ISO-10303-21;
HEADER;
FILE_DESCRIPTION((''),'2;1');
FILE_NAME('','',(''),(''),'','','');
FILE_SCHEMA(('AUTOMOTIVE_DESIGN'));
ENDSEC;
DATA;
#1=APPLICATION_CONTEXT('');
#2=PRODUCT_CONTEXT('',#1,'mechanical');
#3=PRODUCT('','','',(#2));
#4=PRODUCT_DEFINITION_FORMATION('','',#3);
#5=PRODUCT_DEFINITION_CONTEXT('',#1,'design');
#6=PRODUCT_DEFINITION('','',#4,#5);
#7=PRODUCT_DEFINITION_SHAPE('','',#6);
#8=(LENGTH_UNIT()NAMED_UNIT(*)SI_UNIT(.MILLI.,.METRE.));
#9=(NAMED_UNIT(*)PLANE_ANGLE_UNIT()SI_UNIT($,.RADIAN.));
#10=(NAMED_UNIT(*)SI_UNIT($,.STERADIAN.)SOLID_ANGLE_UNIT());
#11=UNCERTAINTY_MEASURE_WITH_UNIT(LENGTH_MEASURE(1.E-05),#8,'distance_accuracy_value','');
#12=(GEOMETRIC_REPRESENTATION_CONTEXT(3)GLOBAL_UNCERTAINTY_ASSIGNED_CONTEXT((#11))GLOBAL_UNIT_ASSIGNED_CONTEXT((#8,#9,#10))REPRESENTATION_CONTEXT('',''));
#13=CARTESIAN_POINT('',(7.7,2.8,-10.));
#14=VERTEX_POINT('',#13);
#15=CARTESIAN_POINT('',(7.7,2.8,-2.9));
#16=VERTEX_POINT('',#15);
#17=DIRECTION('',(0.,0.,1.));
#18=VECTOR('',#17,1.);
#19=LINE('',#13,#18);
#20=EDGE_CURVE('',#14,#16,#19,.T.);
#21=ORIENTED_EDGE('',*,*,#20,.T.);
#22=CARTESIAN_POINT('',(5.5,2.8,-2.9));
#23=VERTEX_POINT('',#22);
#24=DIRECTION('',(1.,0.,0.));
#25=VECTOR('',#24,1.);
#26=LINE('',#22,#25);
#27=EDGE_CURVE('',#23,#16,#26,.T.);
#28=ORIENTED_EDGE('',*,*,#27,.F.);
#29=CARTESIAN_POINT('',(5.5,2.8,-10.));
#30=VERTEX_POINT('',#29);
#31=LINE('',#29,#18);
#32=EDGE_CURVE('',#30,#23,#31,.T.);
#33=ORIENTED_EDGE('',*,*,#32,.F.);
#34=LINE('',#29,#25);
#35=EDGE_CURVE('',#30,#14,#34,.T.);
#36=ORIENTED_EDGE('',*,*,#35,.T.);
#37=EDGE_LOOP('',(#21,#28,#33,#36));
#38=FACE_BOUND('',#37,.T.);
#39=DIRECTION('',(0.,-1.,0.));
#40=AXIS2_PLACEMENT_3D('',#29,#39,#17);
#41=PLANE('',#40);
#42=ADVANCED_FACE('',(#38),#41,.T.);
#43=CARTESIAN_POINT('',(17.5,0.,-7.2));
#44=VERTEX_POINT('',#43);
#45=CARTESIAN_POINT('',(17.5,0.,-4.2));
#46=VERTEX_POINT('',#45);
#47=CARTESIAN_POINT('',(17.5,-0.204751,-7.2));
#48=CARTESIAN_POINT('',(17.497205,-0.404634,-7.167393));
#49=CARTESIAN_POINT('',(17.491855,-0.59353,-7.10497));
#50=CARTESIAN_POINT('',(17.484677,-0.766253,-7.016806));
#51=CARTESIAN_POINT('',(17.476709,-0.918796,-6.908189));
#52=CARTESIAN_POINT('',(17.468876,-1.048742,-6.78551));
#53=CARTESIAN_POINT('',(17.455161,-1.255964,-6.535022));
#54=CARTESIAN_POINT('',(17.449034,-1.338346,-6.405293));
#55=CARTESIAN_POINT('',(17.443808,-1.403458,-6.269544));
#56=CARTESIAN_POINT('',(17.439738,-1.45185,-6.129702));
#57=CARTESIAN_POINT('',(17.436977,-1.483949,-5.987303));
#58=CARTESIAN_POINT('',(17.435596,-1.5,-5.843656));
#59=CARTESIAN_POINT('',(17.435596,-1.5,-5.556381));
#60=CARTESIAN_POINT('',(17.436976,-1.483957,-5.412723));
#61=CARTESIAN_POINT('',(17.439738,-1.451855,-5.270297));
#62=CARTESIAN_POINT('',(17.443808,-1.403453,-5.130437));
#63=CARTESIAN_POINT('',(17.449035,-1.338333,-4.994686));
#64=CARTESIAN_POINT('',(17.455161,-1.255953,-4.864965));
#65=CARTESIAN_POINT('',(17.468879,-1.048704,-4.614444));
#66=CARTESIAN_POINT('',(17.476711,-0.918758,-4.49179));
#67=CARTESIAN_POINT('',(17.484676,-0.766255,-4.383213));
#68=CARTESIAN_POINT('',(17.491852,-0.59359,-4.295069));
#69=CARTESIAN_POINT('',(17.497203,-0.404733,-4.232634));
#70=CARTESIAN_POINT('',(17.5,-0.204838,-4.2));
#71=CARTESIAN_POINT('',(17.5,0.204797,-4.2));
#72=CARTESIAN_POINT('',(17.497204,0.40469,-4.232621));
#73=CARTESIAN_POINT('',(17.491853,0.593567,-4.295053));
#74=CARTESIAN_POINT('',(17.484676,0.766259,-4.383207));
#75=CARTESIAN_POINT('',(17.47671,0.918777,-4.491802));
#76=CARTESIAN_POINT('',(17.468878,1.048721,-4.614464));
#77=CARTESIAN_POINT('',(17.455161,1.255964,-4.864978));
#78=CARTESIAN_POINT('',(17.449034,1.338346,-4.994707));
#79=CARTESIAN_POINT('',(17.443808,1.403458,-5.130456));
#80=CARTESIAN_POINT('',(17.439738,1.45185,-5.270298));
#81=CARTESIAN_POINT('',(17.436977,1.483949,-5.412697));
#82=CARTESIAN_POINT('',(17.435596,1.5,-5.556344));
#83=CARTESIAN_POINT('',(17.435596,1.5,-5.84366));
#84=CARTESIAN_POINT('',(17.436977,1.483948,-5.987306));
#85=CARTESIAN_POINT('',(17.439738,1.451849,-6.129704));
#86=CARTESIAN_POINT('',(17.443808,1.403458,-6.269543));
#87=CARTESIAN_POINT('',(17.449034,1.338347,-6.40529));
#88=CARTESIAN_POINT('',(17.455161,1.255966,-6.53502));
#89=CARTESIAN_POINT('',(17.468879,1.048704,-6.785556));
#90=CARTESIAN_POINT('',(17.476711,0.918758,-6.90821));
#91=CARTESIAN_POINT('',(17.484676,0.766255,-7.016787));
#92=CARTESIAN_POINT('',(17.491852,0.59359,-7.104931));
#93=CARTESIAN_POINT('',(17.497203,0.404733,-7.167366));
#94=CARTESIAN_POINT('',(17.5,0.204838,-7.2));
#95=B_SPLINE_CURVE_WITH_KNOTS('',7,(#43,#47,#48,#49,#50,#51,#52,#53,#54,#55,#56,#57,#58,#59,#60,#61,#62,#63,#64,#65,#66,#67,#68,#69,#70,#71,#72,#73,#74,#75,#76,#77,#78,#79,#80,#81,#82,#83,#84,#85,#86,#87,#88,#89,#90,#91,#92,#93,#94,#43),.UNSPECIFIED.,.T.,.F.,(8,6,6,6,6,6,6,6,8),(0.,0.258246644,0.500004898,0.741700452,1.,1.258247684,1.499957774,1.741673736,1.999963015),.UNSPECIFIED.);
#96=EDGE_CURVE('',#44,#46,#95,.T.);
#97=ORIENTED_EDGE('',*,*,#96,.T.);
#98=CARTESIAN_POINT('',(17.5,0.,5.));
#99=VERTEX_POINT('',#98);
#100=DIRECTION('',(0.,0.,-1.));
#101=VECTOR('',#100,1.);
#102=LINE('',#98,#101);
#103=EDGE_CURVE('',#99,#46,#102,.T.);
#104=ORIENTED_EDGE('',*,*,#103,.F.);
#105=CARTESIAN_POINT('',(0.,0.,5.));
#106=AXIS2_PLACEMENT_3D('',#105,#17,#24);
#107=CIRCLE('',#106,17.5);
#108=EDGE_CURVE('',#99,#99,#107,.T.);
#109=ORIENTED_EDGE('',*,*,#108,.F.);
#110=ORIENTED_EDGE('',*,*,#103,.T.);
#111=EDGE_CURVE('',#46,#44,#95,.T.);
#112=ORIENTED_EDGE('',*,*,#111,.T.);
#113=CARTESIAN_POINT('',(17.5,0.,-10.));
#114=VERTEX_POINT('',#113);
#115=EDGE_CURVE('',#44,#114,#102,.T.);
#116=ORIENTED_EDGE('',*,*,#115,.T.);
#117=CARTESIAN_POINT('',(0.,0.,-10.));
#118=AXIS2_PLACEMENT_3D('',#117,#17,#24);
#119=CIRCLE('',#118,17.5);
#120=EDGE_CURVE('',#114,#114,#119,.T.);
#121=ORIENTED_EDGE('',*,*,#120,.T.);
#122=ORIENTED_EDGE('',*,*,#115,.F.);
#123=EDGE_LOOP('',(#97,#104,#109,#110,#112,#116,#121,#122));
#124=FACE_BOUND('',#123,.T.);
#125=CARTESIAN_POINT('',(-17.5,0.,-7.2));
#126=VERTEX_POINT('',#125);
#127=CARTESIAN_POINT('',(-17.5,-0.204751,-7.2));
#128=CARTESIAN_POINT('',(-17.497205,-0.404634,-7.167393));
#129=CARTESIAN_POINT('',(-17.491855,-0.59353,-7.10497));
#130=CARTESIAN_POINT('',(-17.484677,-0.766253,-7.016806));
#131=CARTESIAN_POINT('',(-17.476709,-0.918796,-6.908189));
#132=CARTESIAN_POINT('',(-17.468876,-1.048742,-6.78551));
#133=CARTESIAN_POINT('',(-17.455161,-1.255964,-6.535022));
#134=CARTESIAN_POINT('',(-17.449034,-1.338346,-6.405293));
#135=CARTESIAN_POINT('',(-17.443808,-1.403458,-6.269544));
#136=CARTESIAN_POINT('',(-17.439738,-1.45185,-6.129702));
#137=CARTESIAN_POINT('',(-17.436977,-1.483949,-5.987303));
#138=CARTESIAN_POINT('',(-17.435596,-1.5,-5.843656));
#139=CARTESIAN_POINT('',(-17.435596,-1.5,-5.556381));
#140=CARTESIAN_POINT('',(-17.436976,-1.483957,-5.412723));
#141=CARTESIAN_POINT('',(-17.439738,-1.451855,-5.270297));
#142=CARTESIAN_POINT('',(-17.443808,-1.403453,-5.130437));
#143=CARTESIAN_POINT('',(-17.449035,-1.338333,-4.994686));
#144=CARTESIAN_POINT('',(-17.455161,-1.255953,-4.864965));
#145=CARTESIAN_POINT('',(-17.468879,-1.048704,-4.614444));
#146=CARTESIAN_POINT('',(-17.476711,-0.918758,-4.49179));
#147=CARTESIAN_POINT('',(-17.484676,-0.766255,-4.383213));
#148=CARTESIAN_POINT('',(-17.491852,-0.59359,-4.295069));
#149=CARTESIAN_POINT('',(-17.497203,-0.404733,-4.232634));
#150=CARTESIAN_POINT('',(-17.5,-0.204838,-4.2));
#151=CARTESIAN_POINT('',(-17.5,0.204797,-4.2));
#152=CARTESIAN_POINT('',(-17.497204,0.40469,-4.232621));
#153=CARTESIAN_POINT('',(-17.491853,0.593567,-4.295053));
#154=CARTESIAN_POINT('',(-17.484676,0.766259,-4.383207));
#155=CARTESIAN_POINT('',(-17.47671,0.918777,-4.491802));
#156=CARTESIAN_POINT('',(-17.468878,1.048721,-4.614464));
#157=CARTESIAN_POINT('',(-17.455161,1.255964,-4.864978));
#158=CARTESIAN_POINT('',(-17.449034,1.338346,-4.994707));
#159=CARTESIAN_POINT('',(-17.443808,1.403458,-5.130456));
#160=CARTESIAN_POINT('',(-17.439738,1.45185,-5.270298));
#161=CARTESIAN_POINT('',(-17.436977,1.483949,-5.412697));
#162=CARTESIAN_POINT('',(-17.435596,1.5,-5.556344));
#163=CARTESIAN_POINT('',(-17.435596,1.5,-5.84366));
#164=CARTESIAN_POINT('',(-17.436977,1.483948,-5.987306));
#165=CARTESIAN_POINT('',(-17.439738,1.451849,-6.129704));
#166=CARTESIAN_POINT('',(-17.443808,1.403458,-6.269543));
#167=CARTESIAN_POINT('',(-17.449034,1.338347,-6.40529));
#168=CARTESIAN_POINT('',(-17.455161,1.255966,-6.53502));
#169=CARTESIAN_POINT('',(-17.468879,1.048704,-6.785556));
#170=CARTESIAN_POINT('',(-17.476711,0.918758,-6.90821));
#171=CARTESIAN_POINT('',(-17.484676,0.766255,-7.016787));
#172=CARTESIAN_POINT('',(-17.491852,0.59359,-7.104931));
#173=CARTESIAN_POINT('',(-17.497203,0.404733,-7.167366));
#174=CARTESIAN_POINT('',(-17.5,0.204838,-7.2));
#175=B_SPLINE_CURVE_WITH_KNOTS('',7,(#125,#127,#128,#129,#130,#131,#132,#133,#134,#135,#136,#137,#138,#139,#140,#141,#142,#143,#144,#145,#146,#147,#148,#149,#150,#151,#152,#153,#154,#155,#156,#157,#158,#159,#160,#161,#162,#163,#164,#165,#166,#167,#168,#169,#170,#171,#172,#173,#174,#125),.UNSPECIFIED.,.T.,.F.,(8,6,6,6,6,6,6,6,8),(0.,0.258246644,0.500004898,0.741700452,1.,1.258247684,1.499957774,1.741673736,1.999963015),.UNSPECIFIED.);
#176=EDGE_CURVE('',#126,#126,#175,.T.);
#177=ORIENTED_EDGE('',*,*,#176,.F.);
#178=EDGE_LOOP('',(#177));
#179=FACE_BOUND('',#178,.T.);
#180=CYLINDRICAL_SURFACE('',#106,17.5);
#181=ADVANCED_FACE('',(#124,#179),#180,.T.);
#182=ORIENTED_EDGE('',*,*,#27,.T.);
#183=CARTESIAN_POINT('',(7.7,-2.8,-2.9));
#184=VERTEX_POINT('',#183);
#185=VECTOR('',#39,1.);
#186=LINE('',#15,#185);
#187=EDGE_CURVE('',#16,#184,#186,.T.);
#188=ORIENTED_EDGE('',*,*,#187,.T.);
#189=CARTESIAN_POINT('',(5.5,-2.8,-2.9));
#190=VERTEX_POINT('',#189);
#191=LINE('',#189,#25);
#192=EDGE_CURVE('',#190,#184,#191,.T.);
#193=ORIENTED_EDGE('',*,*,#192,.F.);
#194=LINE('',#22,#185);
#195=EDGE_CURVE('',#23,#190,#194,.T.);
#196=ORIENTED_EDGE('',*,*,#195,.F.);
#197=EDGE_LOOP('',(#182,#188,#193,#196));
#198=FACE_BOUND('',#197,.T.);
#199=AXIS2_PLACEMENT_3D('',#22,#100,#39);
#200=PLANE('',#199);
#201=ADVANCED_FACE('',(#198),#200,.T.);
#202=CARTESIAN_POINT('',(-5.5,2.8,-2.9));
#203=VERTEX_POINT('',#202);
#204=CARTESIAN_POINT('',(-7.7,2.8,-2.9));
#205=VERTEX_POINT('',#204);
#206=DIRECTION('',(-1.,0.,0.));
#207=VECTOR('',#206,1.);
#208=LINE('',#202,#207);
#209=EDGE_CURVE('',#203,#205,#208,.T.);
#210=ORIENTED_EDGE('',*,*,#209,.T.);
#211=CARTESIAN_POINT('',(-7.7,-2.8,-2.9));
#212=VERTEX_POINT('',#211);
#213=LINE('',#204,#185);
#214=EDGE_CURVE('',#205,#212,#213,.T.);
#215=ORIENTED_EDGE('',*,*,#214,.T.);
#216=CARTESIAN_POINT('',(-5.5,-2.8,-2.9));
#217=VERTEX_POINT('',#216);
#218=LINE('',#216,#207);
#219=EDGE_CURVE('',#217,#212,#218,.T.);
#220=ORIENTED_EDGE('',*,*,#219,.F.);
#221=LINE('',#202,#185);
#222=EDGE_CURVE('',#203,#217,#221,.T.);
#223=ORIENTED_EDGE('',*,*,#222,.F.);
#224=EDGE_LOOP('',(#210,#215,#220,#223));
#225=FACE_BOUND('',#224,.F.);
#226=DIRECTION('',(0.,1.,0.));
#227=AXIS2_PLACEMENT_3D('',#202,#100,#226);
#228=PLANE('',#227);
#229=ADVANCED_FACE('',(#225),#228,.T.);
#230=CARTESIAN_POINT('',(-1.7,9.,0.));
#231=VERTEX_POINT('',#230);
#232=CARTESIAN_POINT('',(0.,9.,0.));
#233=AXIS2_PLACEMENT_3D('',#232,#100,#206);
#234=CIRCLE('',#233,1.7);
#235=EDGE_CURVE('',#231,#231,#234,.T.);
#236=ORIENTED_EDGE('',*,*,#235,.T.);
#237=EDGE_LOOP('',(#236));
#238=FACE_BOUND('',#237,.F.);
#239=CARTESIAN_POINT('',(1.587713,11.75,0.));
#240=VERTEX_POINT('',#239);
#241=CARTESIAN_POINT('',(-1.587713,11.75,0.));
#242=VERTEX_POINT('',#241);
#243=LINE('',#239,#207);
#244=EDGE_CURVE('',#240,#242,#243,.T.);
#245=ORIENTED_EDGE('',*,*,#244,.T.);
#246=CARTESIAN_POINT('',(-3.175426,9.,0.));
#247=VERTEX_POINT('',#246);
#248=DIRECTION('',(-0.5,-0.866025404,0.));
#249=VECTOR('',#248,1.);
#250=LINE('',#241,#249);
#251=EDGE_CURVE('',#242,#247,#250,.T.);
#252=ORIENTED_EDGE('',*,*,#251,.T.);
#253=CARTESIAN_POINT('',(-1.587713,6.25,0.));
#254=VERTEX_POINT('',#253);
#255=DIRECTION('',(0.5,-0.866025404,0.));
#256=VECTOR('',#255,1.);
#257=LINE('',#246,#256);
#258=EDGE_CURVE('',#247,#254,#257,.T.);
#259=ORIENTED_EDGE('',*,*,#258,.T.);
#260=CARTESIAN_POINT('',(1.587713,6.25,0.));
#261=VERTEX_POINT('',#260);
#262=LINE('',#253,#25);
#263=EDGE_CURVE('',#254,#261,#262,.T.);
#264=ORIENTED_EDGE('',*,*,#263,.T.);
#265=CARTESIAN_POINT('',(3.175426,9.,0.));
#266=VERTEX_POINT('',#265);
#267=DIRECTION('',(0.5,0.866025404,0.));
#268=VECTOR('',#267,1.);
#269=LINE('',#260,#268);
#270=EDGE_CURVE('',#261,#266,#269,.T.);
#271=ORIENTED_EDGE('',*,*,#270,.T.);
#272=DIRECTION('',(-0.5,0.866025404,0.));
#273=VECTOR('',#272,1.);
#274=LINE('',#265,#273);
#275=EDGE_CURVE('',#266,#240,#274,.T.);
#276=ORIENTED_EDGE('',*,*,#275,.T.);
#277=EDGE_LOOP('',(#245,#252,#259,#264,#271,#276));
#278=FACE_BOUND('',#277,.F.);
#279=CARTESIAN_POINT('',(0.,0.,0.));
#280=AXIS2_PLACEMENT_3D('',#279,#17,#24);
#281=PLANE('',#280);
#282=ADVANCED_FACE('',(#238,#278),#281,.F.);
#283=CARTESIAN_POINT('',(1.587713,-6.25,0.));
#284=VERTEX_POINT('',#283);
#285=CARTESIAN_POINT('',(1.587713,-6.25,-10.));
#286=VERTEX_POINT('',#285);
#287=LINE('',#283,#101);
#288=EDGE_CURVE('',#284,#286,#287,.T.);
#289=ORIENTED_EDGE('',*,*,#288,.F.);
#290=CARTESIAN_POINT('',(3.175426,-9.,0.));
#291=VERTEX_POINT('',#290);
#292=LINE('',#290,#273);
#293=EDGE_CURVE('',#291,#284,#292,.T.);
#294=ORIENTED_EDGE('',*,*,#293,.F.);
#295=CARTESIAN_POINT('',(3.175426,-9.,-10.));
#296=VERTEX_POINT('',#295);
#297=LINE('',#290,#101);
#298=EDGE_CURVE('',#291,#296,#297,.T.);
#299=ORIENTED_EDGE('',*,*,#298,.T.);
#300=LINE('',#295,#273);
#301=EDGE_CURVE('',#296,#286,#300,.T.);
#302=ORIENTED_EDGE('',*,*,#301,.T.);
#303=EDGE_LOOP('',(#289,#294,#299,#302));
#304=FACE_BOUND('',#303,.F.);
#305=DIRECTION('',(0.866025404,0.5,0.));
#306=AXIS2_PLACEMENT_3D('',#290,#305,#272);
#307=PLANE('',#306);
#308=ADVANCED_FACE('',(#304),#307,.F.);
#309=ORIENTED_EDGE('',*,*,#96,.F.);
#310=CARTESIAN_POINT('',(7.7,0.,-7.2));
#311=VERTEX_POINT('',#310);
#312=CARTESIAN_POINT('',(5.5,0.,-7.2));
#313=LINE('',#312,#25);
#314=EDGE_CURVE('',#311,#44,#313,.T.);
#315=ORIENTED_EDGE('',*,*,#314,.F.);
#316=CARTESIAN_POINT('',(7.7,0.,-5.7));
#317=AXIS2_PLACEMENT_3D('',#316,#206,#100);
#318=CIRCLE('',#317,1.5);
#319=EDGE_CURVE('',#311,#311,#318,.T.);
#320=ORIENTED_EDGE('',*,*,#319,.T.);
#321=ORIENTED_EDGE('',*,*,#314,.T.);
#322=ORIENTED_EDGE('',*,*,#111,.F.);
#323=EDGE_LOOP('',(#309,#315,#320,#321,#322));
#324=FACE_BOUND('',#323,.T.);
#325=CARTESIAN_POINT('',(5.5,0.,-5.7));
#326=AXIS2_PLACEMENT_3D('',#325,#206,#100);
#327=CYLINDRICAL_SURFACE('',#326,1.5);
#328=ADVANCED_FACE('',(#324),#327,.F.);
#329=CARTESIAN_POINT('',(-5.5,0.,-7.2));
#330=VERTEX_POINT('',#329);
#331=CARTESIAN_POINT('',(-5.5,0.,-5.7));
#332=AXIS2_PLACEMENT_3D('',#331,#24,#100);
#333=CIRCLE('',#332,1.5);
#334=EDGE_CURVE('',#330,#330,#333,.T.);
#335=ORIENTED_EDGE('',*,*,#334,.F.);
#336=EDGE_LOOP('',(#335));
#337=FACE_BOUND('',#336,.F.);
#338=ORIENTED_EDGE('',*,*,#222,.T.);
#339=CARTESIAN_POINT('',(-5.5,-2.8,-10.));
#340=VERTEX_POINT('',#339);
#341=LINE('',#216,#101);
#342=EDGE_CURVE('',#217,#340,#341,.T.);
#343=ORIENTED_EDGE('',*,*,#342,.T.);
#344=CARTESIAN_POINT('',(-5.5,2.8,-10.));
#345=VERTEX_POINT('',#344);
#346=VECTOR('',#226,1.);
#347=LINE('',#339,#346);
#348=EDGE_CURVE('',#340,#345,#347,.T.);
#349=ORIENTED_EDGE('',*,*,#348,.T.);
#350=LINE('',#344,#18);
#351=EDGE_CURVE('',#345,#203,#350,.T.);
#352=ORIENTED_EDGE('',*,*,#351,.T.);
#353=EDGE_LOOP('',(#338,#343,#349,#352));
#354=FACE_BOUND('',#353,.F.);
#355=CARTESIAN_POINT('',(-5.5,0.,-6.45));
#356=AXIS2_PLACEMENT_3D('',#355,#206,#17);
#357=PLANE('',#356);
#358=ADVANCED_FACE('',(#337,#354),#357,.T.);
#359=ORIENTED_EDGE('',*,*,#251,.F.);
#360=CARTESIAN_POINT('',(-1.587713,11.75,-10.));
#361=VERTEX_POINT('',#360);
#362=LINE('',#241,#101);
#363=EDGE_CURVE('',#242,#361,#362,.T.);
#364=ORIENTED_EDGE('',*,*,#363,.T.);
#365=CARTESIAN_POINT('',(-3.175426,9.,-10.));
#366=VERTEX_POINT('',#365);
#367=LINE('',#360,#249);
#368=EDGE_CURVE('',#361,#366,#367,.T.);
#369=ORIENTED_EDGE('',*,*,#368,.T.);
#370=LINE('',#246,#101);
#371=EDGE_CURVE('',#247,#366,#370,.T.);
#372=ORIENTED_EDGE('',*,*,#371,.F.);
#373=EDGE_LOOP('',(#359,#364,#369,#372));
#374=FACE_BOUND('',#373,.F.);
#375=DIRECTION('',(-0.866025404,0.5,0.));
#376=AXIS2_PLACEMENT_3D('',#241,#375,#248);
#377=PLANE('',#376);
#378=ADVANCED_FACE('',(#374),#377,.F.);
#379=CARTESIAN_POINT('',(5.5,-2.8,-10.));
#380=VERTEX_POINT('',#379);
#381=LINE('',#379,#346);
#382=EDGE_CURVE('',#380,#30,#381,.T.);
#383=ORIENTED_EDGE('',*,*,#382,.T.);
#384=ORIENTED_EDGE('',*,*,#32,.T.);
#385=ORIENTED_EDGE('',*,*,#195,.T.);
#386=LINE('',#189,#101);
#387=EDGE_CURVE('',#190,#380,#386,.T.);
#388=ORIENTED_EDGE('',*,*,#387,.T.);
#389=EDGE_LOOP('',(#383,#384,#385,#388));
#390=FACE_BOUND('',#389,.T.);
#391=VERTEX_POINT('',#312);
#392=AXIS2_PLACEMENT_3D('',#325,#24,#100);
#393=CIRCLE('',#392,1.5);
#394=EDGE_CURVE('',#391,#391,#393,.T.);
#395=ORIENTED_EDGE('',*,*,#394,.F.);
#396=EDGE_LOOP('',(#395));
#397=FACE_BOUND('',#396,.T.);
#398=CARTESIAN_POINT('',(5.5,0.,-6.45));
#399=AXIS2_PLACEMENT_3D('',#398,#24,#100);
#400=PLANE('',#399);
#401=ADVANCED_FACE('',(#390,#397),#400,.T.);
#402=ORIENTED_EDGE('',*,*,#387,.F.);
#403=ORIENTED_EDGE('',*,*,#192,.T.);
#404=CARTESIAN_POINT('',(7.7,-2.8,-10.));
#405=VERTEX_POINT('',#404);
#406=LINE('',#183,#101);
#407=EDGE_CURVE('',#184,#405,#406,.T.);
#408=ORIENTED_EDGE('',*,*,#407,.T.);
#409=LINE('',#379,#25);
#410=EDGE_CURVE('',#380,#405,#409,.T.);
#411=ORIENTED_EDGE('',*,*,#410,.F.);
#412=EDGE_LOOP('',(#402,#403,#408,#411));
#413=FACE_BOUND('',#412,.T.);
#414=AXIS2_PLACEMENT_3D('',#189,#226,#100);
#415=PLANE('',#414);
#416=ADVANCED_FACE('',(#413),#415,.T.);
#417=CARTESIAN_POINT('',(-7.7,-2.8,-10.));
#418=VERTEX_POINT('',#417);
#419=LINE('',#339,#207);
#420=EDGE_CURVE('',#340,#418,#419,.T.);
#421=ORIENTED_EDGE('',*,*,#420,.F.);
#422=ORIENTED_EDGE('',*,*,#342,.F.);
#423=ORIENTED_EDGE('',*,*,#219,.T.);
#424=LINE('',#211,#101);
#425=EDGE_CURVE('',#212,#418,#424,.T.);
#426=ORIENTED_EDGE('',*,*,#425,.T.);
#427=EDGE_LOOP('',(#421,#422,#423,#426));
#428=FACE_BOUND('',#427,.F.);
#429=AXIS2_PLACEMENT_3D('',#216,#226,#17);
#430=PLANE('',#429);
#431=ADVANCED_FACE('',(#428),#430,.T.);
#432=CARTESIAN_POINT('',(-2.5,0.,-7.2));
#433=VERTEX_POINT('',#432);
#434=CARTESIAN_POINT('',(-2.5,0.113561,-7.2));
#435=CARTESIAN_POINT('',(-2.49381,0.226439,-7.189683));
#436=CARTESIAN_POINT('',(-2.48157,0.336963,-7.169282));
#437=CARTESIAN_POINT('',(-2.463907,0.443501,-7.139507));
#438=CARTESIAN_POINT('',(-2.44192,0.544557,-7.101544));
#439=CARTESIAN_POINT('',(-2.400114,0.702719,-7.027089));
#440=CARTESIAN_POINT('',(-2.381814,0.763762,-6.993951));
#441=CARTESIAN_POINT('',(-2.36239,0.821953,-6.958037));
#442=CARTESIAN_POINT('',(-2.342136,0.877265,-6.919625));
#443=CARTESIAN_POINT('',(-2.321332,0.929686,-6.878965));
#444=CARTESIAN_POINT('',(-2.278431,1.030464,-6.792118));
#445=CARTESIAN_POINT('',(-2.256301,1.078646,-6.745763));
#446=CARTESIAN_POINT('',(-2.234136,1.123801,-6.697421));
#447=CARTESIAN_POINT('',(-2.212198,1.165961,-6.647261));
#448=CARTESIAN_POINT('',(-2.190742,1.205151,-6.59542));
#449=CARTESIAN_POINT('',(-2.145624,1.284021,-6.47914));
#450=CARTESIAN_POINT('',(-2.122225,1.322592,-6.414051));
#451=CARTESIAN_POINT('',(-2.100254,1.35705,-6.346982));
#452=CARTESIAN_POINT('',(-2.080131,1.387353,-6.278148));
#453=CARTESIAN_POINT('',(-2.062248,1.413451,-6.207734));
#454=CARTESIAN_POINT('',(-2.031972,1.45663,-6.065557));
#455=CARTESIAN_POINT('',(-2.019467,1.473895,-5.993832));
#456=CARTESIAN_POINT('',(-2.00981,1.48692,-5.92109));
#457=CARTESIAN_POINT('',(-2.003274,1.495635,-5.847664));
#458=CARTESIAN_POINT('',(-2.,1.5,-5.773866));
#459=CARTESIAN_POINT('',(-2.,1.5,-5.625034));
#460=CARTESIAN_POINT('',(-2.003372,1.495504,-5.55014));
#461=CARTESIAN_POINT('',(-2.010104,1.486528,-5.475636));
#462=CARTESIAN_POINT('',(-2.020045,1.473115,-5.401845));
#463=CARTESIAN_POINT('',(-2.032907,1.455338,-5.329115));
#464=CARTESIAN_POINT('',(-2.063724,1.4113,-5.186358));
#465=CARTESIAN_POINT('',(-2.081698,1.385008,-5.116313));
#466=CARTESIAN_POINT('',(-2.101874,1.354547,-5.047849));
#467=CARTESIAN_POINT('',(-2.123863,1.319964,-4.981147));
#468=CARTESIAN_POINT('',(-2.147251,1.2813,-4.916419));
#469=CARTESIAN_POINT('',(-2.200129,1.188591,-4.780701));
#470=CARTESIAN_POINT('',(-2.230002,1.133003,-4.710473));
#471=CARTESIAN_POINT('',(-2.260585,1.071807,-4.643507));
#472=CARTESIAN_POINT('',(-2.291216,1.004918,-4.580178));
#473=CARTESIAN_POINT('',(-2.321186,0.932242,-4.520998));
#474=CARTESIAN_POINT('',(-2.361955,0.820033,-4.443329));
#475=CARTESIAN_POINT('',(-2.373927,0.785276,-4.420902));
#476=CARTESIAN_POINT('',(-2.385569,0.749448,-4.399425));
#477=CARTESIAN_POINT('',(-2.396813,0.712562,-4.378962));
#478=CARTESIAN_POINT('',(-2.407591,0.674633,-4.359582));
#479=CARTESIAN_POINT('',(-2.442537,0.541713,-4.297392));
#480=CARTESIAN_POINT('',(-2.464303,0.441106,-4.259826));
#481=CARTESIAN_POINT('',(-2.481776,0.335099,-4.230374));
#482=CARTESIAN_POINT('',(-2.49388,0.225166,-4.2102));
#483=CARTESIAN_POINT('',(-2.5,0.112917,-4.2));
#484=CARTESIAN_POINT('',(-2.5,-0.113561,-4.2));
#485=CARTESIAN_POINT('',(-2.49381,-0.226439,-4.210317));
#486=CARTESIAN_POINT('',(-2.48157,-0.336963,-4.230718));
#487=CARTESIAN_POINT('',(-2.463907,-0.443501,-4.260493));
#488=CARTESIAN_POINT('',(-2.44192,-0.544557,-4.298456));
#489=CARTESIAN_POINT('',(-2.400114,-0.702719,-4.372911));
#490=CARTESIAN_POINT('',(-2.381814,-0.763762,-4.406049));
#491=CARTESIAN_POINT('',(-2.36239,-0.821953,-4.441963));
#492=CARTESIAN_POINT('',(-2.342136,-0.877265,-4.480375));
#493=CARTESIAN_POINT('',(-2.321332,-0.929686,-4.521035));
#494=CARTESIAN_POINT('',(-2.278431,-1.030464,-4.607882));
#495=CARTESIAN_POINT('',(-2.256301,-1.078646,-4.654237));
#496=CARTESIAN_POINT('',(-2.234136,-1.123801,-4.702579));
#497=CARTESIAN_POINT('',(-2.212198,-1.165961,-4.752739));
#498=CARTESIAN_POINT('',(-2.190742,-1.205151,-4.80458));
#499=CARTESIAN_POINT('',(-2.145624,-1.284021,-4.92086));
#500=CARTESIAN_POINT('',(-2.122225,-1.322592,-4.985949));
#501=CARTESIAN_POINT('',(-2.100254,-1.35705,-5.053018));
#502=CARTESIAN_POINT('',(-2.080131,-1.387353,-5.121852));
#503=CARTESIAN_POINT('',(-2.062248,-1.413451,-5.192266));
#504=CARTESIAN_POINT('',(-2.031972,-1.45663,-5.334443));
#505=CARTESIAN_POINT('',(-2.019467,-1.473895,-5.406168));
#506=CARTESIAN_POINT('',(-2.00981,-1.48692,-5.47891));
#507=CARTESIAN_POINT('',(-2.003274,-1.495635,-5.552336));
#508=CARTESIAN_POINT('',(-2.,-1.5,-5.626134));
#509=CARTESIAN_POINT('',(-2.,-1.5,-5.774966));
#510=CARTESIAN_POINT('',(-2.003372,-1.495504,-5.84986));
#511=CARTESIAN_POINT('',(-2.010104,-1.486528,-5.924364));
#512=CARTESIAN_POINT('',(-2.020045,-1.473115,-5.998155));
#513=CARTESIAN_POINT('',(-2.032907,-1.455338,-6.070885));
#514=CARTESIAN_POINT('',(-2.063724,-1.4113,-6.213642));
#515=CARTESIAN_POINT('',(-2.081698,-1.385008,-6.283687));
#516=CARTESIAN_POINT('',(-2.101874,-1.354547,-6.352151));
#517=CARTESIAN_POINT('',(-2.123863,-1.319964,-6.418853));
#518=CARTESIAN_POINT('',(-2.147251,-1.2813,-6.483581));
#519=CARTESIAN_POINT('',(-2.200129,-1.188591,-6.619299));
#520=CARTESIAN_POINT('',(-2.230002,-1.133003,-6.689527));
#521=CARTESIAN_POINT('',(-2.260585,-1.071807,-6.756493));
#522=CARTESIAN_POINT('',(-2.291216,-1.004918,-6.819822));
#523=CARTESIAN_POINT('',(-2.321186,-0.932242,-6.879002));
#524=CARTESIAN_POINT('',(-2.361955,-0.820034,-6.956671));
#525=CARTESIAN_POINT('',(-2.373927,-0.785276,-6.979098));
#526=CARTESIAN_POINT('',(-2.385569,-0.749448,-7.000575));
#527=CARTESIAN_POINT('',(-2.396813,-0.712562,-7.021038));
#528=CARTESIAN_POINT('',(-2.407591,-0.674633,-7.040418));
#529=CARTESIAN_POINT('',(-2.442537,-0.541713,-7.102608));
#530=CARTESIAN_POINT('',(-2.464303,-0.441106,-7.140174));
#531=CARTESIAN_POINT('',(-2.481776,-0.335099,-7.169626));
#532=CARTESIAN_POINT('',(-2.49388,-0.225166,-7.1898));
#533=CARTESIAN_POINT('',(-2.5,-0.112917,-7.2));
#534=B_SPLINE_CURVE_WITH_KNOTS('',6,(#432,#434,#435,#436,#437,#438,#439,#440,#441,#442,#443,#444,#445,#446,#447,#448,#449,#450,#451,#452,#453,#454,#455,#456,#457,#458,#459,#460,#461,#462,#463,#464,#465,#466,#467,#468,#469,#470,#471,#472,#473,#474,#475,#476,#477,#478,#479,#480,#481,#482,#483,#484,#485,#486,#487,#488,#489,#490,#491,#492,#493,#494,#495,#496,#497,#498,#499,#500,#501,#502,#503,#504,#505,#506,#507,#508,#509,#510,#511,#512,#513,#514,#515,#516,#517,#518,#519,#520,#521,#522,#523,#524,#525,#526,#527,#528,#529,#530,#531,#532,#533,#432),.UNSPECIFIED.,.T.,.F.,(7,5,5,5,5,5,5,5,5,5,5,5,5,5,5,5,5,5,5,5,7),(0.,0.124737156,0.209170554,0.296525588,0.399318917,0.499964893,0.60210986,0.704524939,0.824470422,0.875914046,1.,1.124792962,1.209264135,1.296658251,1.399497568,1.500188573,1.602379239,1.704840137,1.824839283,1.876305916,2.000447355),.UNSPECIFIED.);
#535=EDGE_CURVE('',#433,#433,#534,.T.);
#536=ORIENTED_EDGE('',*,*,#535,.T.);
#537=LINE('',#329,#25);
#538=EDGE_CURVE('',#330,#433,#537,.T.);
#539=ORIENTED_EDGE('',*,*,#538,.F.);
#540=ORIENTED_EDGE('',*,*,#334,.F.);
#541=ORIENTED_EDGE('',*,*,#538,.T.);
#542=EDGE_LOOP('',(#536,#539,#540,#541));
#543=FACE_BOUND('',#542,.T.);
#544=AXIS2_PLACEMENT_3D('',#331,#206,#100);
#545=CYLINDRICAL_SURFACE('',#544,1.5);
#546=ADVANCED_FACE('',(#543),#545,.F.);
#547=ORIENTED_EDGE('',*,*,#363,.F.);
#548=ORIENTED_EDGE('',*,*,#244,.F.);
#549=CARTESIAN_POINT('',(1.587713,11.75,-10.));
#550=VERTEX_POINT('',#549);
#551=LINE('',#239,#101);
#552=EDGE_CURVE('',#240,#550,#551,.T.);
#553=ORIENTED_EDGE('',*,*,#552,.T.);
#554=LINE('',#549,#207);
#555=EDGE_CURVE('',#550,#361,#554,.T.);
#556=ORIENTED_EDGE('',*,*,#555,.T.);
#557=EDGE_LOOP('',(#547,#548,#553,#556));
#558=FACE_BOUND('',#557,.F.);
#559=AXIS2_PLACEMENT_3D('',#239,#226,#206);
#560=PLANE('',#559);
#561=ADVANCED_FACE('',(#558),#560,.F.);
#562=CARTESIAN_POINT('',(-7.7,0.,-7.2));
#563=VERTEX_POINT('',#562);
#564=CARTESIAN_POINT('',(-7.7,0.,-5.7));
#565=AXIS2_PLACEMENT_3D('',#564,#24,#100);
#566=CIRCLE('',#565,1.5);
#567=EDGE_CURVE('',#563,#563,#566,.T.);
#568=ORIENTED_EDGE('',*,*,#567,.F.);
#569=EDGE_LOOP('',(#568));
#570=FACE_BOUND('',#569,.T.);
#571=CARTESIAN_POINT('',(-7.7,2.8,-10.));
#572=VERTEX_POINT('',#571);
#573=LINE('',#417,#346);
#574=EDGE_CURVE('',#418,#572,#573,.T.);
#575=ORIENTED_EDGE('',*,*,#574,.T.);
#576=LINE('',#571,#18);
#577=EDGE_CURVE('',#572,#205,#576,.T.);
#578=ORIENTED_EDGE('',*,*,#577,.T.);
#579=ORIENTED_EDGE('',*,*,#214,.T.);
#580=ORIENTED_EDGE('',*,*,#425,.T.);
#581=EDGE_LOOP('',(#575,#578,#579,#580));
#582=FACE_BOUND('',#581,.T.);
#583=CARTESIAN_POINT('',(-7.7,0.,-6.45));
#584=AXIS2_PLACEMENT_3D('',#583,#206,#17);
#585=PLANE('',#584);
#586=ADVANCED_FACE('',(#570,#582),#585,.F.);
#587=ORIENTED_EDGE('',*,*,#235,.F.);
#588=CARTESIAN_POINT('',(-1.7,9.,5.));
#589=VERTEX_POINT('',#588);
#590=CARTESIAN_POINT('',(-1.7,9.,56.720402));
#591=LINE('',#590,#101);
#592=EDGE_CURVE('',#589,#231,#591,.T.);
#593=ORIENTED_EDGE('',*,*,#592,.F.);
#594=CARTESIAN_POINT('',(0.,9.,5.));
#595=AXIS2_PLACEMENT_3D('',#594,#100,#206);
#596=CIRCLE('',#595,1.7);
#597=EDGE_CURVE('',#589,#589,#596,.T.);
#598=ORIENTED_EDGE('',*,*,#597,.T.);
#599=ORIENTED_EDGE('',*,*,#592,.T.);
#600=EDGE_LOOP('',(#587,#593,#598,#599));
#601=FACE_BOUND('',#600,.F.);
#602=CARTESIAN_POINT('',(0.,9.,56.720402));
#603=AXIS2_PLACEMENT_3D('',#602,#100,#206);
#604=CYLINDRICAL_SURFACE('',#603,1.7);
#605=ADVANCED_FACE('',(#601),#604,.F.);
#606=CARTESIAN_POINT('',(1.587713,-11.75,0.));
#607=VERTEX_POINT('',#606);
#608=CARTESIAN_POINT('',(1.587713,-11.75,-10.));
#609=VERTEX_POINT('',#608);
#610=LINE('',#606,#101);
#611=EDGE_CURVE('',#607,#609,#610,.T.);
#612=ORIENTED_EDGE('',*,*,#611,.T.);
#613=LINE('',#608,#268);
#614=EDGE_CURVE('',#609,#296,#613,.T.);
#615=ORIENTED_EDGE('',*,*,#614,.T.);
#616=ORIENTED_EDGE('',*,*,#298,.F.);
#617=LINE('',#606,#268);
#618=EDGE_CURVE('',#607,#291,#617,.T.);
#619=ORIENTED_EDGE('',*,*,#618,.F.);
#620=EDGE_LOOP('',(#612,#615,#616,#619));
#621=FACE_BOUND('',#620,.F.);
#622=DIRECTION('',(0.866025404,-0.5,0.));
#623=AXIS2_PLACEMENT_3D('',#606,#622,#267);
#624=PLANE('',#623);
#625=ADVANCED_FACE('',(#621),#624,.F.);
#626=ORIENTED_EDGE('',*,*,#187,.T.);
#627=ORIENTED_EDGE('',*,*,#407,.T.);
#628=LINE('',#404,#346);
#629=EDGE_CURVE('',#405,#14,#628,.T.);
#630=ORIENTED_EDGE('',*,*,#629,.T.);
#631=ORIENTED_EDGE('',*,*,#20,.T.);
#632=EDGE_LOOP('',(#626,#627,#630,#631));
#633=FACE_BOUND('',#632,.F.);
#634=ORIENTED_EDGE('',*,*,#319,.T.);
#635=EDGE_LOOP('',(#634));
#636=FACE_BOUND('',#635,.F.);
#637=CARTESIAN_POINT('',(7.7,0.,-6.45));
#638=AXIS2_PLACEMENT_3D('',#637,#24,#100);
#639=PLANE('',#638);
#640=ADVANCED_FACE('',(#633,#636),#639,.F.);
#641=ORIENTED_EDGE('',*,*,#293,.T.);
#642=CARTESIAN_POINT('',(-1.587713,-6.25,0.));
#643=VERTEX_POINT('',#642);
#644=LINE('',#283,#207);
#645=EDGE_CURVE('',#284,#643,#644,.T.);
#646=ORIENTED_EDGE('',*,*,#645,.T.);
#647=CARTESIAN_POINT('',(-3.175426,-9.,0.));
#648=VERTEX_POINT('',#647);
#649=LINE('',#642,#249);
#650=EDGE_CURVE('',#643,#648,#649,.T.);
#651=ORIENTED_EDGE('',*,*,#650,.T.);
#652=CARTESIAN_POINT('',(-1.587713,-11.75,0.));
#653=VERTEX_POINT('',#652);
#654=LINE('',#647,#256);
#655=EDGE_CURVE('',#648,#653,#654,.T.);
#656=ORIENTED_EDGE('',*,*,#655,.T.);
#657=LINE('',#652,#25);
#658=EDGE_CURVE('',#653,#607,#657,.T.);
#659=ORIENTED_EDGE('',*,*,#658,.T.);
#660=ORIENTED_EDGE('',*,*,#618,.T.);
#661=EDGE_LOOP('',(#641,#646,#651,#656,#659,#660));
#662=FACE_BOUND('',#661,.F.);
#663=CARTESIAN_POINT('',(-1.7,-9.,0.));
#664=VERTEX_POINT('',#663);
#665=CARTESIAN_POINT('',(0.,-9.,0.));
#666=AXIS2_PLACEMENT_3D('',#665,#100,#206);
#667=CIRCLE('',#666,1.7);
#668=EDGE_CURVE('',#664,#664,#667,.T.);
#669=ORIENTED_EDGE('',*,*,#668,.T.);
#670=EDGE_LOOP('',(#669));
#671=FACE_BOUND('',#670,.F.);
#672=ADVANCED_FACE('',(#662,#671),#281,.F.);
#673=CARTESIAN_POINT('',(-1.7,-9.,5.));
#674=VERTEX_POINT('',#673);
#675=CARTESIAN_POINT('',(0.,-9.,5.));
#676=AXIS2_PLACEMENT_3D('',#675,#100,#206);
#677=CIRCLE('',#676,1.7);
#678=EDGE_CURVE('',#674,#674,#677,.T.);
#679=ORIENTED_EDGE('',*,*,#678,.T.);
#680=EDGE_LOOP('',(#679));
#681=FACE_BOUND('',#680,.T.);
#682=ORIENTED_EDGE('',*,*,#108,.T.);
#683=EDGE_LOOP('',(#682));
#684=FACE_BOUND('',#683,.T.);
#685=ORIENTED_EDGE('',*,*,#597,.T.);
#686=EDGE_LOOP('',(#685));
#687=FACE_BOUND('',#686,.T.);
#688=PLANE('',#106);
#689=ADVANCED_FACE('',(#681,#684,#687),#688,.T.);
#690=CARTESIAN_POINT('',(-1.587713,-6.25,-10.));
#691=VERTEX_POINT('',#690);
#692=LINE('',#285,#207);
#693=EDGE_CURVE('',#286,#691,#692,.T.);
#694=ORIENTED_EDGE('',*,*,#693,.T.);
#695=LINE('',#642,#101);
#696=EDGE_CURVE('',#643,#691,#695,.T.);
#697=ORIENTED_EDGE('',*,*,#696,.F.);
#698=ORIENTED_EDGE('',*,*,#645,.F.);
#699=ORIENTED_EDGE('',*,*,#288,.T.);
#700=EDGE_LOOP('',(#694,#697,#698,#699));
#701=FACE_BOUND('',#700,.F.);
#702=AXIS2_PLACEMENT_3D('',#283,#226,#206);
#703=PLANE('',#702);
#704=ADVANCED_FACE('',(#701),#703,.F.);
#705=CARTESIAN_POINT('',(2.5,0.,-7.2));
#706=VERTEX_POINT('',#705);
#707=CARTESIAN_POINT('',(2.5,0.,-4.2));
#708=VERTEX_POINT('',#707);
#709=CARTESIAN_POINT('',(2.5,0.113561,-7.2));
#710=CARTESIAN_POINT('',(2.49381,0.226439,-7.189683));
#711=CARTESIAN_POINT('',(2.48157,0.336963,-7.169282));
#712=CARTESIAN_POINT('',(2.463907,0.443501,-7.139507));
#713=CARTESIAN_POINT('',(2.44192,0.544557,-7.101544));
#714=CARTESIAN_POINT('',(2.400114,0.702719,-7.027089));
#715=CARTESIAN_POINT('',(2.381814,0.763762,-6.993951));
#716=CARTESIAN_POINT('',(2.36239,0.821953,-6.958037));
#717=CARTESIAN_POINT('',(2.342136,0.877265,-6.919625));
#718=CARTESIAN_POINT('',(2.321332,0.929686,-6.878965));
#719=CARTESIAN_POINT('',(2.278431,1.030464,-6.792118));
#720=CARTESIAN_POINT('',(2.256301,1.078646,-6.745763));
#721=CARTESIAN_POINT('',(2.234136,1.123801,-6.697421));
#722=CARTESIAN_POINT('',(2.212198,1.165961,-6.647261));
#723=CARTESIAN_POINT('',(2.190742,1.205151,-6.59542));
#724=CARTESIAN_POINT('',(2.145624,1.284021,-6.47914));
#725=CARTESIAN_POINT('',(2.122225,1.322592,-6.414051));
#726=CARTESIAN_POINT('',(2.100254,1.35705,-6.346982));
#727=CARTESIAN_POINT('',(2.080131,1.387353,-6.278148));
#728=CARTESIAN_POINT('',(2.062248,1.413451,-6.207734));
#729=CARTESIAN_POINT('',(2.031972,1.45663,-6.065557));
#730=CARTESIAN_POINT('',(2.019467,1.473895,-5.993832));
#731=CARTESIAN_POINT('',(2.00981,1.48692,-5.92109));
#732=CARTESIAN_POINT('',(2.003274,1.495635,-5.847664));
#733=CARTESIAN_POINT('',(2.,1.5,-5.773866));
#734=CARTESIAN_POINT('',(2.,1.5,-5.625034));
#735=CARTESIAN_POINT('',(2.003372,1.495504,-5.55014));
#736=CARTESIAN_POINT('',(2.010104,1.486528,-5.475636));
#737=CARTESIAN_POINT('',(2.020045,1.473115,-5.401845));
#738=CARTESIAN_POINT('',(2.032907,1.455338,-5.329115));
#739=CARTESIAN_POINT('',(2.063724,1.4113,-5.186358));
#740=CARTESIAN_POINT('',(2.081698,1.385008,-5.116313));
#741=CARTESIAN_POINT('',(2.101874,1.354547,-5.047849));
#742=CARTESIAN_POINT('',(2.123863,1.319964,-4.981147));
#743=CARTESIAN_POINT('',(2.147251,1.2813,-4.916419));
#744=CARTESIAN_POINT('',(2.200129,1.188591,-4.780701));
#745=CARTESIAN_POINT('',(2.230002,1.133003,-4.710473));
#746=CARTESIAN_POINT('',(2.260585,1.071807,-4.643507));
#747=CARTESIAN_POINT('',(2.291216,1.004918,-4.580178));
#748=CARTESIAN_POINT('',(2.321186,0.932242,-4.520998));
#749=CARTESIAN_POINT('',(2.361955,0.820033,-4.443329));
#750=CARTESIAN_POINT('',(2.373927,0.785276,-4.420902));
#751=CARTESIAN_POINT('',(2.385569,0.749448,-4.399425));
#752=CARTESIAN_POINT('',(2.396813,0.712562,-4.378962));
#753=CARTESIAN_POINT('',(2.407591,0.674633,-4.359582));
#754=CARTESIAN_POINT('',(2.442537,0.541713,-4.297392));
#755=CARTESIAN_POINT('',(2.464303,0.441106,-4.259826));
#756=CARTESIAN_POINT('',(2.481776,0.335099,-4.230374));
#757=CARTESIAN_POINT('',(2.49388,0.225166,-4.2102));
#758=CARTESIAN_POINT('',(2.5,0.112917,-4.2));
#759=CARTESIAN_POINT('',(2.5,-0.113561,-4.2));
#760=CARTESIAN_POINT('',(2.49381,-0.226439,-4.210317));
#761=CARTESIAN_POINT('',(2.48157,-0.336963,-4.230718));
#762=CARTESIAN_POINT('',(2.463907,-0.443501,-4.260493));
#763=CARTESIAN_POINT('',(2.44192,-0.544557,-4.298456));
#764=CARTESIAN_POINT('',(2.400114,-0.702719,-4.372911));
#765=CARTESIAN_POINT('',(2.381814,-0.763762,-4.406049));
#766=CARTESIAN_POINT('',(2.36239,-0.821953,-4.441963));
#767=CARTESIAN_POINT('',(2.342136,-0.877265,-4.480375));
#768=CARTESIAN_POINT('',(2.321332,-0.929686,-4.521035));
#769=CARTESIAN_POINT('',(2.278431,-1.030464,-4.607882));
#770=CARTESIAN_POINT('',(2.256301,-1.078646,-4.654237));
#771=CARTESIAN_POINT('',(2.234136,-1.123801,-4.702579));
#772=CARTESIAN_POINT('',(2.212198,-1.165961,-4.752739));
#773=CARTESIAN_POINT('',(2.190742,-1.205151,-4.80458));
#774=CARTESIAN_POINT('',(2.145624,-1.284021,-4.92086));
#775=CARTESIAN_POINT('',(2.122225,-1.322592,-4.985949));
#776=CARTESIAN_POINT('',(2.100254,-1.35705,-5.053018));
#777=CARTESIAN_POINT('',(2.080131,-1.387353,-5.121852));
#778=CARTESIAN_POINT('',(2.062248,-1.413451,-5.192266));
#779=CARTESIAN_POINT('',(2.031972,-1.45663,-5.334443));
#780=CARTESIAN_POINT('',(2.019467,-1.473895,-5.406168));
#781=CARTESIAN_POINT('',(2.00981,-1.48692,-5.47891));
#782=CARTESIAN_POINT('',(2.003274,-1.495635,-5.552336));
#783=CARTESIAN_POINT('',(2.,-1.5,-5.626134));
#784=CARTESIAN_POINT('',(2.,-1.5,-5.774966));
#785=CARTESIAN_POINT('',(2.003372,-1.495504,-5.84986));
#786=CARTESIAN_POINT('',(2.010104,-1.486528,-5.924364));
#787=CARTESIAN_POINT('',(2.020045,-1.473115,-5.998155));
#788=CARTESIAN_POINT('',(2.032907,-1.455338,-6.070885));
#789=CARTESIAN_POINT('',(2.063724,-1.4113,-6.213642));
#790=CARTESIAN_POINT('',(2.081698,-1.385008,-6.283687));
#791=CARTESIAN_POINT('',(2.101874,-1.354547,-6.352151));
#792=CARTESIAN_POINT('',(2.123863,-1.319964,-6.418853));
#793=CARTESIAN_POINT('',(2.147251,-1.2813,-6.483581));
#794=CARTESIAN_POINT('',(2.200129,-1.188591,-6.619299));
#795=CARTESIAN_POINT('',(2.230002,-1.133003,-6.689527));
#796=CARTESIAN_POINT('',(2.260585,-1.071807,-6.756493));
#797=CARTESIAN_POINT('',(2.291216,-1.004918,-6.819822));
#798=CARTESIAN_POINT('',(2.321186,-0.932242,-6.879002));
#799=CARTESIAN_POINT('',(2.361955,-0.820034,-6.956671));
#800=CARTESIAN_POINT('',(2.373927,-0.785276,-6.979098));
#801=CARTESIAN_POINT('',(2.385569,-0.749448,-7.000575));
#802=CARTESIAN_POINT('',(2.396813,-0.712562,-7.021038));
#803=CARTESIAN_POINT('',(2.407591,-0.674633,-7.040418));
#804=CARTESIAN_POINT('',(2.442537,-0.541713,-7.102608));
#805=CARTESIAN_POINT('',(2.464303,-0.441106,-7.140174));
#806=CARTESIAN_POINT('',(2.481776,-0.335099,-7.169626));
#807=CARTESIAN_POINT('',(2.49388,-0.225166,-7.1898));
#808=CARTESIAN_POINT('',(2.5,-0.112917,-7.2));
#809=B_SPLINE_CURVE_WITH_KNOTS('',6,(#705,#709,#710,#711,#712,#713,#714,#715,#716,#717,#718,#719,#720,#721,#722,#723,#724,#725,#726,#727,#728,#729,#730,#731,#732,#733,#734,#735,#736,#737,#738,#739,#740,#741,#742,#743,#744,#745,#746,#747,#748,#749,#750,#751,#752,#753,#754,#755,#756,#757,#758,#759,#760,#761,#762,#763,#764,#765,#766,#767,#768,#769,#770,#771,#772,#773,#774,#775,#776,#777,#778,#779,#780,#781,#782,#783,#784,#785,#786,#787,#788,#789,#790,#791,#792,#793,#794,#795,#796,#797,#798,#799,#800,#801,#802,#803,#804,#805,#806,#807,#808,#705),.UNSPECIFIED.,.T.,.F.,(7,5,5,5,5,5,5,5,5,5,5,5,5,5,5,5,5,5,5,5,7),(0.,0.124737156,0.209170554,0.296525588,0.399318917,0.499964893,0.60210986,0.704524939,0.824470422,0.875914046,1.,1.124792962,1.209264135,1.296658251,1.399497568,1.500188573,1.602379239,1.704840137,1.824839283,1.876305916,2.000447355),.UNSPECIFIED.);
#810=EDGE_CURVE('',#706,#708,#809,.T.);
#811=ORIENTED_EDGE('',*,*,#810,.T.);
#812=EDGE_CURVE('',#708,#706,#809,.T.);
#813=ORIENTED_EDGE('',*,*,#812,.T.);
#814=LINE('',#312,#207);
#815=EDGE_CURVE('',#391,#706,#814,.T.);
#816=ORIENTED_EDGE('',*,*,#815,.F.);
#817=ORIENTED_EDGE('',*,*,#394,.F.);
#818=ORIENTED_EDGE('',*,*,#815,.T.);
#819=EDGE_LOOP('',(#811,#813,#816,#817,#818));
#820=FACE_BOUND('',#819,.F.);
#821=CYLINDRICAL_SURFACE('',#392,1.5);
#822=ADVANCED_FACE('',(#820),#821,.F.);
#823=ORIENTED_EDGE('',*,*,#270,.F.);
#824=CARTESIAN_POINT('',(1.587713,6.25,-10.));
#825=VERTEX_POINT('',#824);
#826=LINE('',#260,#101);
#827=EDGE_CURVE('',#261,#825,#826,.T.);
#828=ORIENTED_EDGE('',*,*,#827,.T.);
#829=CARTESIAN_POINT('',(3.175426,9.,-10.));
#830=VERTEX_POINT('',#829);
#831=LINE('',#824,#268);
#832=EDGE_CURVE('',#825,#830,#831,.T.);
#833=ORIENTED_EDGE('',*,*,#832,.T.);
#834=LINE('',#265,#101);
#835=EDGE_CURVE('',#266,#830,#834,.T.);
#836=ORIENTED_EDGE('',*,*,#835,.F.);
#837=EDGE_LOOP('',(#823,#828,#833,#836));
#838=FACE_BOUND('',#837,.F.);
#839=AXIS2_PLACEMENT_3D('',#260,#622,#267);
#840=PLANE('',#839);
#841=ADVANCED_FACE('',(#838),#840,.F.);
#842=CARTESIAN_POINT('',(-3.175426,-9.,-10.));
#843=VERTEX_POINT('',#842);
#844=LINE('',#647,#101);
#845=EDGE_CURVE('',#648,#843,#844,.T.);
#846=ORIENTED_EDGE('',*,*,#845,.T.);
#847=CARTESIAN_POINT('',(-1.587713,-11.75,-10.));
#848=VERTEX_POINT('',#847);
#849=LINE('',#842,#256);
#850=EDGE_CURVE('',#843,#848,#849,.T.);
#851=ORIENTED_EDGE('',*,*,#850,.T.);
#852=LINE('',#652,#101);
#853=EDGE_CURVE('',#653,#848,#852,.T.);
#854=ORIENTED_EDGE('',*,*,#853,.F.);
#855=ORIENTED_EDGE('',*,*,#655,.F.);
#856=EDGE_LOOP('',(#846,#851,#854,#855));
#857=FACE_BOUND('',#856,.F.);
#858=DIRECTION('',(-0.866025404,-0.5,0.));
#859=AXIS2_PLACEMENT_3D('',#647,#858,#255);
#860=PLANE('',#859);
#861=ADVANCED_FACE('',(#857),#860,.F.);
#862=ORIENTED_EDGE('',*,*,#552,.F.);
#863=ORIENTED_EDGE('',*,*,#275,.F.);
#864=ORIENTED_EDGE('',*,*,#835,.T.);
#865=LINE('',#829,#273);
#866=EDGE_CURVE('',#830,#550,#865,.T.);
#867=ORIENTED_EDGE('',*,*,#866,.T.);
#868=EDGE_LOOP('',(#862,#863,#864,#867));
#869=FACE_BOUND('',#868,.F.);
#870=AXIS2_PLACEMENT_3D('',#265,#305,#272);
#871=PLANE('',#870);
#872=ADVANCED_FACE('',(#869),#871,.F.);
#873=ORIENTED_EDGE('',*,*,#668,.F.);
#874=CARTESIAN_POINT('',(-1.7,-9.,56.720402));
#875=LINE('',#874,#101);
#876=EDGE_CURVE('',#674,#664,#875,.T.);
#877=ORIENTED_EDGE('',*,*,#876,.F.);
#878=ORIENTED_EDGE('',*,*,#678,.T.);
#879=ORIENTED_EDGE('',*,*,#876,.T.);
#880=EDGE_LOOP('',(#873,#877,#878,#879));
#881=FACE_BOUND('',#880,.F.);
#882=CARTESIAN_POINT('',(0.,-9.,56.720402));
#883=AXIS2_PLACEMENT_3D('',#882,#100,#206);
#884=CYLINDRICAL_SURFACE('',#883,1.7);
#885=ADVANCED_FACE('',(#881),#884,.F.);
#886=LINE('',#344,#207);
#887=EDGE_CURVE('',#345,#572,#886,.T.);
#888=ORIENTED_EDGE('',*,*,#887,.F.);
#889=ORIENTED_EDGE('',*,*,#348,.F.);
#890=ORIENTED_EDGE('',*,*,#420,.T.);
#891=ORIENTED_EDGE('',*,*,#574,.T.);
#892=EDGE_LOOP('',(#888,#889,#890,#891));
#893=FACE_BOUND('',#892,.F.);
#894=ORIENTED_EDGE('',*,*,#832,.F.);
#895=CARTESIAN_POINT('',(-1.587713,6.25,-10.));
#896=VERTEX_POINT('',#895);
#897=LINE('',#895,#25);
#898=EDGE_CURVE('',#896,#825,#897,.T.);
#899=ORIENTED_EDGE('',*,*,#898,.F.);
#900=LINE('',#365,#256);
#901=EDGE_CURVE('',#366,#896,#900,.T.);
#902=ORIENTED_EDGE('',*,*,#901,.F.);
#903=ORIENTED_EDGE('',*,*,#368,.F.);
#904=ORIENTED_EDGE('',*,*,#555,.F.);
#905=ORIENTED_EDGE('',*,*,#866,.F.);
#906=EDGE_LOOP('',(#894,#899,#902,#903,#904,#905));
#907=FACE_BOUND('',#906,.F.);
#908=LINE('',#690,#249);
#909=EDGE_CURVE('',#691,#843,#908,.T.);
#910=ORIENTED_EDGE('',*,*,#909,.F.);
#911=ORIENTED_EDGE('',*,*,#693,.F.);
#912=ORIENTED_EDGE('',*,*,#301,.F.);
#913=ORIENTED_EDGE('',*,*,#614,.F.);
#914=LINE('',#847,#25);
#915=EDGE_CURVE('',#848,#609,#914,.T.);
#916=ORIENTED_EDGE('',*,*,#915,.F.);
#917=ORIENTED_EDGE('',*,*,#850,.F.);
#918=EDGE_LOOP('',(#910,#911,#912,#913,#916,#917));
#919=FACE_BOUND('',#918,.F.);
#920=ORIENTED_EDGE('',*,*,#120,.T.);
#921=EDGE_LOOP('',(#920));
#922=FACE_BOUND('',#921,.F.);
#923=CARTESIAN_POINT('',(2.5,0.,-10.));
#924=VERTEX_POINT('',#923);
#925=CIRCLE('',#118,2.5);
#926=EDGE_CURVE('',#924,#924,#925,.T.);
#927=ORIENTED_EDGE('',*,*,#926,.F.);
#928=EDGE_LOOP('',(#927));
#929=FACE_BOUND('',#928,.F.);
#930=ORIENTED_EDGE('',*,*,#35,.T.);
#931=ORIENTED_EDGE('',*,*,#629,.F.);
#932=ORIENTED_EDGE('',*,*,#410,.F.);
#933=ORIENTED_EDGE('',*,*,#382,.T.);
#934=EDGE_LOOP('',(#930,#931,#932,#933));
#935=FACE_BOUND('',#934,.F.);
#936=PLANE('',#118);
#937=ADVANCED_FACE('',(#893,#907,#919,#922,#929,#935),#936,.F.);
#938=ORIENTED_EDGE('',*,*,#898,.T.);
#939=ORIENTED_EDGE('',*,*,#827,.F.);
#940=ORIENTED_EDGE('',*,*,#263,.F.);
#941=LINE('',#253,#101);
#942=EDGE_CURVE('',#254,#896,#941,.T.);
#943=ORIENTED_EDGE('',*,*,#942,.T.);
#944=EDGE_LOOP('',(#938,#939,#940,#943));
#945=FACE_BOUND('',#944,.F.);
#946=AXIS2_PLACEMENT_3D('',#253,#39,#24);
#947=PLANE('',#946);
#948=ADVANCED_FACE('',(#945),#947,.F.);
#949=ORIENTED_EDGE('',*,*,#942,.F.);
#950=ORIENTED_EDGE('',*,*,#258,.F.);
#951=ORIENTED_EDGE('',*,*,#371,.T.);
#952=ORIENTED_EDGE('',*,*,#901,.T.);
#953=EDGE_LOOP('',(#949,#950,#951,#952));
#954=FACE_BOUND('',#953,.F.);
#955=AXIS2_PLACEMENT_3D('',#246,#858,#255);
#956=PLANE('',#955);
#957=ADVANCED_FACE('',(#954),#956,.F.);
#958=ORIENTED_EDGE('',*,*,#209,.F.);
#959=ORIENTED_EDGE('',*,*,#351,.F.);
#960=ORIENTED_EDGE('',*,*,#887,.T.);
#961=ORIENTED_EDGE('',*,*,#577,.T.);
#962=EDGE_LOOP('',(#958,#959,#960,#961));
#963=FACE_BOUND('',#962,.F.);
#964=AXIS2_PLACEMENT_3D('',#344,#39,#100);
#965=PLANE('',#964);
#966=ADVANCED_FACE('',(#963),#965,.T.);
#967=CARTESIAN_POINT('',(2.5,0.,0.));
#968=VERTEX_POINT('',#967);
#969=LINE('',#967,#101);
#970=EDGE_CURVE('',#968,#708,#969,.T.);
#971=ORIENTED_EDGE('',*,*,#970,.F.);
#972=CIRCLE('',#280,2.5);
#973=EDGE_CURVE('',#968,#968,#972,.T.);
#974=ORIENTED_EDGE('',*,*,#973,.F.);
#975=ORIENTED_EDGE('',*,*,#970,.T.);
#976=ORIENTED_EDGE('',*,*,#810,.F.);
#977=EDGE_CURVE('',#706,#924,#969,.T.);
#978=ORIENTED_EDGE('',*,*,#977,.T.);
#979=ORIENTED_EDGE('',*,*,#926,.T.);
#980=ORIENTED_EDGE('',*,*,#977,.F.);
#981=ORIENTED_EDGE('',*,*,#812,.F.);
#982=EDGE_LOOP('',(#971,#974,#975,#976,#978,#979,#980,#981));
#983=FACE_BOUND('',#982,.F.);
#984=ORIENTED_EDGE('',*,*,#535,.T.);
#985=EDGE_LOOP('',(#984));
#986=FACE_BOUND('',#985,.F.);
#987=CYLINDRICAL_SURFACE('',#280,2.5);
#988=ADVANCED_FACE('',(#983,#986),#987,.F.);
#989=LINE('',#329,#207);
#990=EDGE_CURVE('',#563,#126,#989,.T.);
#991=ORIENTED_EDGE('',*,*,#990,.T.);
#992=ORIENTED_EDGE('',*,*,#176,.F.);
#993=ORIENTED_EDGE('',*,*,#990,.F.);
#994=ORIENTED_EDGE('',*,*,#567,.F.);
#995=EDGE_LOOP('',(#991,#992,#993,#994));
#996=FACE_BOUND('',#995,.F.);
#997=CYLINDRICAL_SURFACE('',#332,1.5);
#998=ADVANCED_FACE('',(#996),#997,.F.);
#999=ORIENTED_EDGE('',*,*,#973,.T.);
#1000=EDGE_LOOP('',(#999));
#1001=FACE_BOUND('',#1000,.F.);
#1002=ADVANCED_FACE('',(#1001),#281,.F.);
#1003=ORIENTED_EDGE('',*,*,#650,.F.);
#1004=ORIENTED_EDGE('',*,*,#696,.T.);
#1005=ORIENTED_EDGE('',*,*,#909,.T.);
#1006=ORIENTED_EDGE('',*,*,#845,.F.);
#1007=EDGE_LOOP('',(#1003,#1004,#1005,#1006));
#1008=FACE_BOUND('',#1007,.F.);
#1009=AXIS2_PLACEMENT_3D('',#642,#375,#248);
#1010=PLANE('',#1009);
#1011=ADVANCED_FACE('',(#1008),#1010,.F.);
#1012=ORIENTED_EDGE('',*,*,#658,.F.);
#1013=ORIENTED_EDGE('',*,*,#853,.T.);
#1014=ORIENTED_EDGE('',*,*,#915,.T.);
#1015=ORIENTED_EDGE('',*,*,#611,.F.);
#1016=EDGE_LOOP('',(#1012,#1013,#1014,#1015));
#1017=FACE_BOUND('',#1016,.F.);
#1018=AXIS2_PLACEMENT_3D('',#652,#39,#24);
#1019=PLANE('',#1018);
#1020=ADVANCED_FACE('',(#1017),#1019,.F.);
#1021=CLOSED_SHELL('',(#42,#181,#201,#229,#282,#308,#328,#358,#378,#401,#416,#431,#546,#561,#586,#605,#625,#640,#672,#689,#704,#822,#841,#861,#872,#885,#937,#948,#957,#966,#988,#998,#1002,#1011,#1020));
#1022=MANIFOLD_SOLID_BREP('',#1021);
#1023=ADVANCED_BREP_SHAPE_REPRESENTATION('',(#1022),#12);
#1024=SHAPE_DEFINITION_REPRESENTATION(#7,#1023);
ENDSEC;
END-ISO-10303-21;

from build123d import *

# Parameters (mm, degrees)
SKETCH1_R                           = 17.5
SKETCH1_R_2                         = 2.5
BOSS_EXTRUDE1_DEPTH                 = 10
BOSS_EXTRUDE2_START                 = 5
SKETCH1_3_R                         = 17.5
BOSS_EXTRUDE2_DEPTH                 = 5
M3_CLEARANCE_HOLE1_D                = 3.4
CUT_EXTRUDE1_REACH                  = 32.582
CUT_EXTRUDE1_END_RADIUS             = 17.5
SKETCH8_R                           = 1.5
CUT_EXTRUDE1_DIRECTION_2_REACH      = 32.582
CUT_EXTRUDE1_DIRECTION_2_END_RADIUS = 2.5
CUT_EXTRUDE2_DEPTH                  = 2.2


with BuildPart() as part:
    # Sketch1 → Boss-Extrude1 (new body)
    with BuildSketch(Plane.XY):
        Circle(SKETCH1_R)
        Circle(SKETCH1_R_2, mode=Mode.SUBTRACT)
        Polygon((1.58771324, 11.75), (-1.58771324, 11.75), (-3.175426481, 9), (-1.58771324, 6.25), (1.58771324, 6.25), (3.175426481, 9), align=None, mode=Mode.SUBTRACT)
        Polygon((1.58771324, -6.25), (-1.58771324, -6.25), (-3.175426481, -9), (-1.58771324, -11.75), (1.58771324, -11.75), (3.175426481, -9), align=None, mode=Mode.SUBTRACT)
    extrude(amount=-BOSS_EXTRUDE1_DEPTH)

    # Sketch1<3> → Boss-Extrude2 (add)
    with BuildSketch(Plane.XY.offset(BOSS_EXTRUDE2_START)):
        Circle(SKETCH1_3_R)
    extrude(amount=-BOSS_EXTRUDE2_DEPTH)

    # M3 Clearance Hole1 (through all)
    with Locations(Plane.XY.offset(5)):
        with Locations((0, 9), (0, -9)):
            Hole(M3_CLEARANCE_HOLE1_D / 2)

    # Cut-Extrude1: up to this cylinder (the profile starts inside it)
    cut_extrude1_end = Plane(origin=(0, 0, -5.7), z_dir=(0, 0, 1)) * Cylinder(CUT_EXTRUDE1_END_RADIUS, 101.164, mode=Mode.PRIVATE)
    # Sketch8 → Cut-Extrude1 (cut, up to the surface)
    with BuildSketch(Plane(origin=(5.5, 0, 0), x_dir=(0, 0, -1), z_dir=(1, 0, 0)), mode=Mode.PRIVATE) as cut_extrude1_sk1:
        with Locations((5.7, 0)):
            Circle(SKETCH8_R)
    cut_extrude1_tool1 = extrude(cut_extrude1_sk1.sketch, amount=CUT_EXTRUDE1_REACH, mode=Mode.PRIVATE) & cut_extrude1_end
    cut_extrude1 = cut_extrude1_tool1.solids().sort_by_distance((5.5, 0, -5.7))[0]
    add(cut_extrude1, mode=Mode.SUBTRACT)

    # Cut-Extrude1 direction 2: up to this cylinder (the profile starts outside it)
    cut_extrude1_direction_2_end = Plane(origin=(0, 0, -5.7), z_dir=(0, 0, 1)) * Cylinder(CUT_EXTRUDE1_DIRECTION_2_END_RADIUS, 71.164, mode=Mode.PRIVATE)
    # Sketch8 → Cut-Extrude1 direction 2 (cut, up to the surface)
    with BuildSketch(Plane(origin=(5.5, 0, 0), x_dir=(0, 0, -1), z_dir=(1, 0, 0)), mode=Mode.PRIVATE) as cut_extrude1_direction_2_sk1:
        with Locations((5.7, 0)):
            Circle(SKETCH8_R)
    cut_extrude1_direction_2_tool1 = extrude(cut_extrude1_direction_2_sk1.sketch, amount=-CUT_EXTRUDE1_DIRECTION_2_REACH, mode=Mode.PRIVATE) - cut_extrude1_direction_2_end
    cut_extrude1_direction_2 = cut_extrude1_direction_2_tool1.solids().sort_by_distance((5.5, 0, -5.7))[0]
    add(cut_extrude1_direction_2, mode=Mode.SUBTRACT)
    cut_extrude1 = cut_extrude1 + cut_extrude1_direction_2  # both directions under the feature's name, for the pattern or mirror that repeats it

    # Sketch8<4> → Cut-Extrude2 (cut)
    with BuildSketch(Plane(origin=(5.5, 0, 0), x_dir=(0, 0, -1), z_dir=(1, 0, 0))):
        Polygon((8.5, 2.8), (2.9, 2.8), (2.9, -2.8), (8.5, -2.8), (10, -2.8), (10, 2.8), align=None)
    cut_extrude2 = extrude(amount=CUT_EXTRUDE2_DEPTH, mode=Mode.SUBTRACT)

    # Mirror1: Cut-Extrude1, Cut-Extrude2 across plane
    add(cut_extrude1.mirror(Plane(origin=(0, 0, 0), x_dir=(0, 0, 1), z_dir=(1, 0, 0))), mode=Mode.SUBTRACT)
    add(cut_extrude2.mirror(Plane(origin=(0, 0, 0), x_dir=(0, 0, 1), z_dir=(1, 0, 0))), mode=Mode.SUBTRACT)


solid = part.part
